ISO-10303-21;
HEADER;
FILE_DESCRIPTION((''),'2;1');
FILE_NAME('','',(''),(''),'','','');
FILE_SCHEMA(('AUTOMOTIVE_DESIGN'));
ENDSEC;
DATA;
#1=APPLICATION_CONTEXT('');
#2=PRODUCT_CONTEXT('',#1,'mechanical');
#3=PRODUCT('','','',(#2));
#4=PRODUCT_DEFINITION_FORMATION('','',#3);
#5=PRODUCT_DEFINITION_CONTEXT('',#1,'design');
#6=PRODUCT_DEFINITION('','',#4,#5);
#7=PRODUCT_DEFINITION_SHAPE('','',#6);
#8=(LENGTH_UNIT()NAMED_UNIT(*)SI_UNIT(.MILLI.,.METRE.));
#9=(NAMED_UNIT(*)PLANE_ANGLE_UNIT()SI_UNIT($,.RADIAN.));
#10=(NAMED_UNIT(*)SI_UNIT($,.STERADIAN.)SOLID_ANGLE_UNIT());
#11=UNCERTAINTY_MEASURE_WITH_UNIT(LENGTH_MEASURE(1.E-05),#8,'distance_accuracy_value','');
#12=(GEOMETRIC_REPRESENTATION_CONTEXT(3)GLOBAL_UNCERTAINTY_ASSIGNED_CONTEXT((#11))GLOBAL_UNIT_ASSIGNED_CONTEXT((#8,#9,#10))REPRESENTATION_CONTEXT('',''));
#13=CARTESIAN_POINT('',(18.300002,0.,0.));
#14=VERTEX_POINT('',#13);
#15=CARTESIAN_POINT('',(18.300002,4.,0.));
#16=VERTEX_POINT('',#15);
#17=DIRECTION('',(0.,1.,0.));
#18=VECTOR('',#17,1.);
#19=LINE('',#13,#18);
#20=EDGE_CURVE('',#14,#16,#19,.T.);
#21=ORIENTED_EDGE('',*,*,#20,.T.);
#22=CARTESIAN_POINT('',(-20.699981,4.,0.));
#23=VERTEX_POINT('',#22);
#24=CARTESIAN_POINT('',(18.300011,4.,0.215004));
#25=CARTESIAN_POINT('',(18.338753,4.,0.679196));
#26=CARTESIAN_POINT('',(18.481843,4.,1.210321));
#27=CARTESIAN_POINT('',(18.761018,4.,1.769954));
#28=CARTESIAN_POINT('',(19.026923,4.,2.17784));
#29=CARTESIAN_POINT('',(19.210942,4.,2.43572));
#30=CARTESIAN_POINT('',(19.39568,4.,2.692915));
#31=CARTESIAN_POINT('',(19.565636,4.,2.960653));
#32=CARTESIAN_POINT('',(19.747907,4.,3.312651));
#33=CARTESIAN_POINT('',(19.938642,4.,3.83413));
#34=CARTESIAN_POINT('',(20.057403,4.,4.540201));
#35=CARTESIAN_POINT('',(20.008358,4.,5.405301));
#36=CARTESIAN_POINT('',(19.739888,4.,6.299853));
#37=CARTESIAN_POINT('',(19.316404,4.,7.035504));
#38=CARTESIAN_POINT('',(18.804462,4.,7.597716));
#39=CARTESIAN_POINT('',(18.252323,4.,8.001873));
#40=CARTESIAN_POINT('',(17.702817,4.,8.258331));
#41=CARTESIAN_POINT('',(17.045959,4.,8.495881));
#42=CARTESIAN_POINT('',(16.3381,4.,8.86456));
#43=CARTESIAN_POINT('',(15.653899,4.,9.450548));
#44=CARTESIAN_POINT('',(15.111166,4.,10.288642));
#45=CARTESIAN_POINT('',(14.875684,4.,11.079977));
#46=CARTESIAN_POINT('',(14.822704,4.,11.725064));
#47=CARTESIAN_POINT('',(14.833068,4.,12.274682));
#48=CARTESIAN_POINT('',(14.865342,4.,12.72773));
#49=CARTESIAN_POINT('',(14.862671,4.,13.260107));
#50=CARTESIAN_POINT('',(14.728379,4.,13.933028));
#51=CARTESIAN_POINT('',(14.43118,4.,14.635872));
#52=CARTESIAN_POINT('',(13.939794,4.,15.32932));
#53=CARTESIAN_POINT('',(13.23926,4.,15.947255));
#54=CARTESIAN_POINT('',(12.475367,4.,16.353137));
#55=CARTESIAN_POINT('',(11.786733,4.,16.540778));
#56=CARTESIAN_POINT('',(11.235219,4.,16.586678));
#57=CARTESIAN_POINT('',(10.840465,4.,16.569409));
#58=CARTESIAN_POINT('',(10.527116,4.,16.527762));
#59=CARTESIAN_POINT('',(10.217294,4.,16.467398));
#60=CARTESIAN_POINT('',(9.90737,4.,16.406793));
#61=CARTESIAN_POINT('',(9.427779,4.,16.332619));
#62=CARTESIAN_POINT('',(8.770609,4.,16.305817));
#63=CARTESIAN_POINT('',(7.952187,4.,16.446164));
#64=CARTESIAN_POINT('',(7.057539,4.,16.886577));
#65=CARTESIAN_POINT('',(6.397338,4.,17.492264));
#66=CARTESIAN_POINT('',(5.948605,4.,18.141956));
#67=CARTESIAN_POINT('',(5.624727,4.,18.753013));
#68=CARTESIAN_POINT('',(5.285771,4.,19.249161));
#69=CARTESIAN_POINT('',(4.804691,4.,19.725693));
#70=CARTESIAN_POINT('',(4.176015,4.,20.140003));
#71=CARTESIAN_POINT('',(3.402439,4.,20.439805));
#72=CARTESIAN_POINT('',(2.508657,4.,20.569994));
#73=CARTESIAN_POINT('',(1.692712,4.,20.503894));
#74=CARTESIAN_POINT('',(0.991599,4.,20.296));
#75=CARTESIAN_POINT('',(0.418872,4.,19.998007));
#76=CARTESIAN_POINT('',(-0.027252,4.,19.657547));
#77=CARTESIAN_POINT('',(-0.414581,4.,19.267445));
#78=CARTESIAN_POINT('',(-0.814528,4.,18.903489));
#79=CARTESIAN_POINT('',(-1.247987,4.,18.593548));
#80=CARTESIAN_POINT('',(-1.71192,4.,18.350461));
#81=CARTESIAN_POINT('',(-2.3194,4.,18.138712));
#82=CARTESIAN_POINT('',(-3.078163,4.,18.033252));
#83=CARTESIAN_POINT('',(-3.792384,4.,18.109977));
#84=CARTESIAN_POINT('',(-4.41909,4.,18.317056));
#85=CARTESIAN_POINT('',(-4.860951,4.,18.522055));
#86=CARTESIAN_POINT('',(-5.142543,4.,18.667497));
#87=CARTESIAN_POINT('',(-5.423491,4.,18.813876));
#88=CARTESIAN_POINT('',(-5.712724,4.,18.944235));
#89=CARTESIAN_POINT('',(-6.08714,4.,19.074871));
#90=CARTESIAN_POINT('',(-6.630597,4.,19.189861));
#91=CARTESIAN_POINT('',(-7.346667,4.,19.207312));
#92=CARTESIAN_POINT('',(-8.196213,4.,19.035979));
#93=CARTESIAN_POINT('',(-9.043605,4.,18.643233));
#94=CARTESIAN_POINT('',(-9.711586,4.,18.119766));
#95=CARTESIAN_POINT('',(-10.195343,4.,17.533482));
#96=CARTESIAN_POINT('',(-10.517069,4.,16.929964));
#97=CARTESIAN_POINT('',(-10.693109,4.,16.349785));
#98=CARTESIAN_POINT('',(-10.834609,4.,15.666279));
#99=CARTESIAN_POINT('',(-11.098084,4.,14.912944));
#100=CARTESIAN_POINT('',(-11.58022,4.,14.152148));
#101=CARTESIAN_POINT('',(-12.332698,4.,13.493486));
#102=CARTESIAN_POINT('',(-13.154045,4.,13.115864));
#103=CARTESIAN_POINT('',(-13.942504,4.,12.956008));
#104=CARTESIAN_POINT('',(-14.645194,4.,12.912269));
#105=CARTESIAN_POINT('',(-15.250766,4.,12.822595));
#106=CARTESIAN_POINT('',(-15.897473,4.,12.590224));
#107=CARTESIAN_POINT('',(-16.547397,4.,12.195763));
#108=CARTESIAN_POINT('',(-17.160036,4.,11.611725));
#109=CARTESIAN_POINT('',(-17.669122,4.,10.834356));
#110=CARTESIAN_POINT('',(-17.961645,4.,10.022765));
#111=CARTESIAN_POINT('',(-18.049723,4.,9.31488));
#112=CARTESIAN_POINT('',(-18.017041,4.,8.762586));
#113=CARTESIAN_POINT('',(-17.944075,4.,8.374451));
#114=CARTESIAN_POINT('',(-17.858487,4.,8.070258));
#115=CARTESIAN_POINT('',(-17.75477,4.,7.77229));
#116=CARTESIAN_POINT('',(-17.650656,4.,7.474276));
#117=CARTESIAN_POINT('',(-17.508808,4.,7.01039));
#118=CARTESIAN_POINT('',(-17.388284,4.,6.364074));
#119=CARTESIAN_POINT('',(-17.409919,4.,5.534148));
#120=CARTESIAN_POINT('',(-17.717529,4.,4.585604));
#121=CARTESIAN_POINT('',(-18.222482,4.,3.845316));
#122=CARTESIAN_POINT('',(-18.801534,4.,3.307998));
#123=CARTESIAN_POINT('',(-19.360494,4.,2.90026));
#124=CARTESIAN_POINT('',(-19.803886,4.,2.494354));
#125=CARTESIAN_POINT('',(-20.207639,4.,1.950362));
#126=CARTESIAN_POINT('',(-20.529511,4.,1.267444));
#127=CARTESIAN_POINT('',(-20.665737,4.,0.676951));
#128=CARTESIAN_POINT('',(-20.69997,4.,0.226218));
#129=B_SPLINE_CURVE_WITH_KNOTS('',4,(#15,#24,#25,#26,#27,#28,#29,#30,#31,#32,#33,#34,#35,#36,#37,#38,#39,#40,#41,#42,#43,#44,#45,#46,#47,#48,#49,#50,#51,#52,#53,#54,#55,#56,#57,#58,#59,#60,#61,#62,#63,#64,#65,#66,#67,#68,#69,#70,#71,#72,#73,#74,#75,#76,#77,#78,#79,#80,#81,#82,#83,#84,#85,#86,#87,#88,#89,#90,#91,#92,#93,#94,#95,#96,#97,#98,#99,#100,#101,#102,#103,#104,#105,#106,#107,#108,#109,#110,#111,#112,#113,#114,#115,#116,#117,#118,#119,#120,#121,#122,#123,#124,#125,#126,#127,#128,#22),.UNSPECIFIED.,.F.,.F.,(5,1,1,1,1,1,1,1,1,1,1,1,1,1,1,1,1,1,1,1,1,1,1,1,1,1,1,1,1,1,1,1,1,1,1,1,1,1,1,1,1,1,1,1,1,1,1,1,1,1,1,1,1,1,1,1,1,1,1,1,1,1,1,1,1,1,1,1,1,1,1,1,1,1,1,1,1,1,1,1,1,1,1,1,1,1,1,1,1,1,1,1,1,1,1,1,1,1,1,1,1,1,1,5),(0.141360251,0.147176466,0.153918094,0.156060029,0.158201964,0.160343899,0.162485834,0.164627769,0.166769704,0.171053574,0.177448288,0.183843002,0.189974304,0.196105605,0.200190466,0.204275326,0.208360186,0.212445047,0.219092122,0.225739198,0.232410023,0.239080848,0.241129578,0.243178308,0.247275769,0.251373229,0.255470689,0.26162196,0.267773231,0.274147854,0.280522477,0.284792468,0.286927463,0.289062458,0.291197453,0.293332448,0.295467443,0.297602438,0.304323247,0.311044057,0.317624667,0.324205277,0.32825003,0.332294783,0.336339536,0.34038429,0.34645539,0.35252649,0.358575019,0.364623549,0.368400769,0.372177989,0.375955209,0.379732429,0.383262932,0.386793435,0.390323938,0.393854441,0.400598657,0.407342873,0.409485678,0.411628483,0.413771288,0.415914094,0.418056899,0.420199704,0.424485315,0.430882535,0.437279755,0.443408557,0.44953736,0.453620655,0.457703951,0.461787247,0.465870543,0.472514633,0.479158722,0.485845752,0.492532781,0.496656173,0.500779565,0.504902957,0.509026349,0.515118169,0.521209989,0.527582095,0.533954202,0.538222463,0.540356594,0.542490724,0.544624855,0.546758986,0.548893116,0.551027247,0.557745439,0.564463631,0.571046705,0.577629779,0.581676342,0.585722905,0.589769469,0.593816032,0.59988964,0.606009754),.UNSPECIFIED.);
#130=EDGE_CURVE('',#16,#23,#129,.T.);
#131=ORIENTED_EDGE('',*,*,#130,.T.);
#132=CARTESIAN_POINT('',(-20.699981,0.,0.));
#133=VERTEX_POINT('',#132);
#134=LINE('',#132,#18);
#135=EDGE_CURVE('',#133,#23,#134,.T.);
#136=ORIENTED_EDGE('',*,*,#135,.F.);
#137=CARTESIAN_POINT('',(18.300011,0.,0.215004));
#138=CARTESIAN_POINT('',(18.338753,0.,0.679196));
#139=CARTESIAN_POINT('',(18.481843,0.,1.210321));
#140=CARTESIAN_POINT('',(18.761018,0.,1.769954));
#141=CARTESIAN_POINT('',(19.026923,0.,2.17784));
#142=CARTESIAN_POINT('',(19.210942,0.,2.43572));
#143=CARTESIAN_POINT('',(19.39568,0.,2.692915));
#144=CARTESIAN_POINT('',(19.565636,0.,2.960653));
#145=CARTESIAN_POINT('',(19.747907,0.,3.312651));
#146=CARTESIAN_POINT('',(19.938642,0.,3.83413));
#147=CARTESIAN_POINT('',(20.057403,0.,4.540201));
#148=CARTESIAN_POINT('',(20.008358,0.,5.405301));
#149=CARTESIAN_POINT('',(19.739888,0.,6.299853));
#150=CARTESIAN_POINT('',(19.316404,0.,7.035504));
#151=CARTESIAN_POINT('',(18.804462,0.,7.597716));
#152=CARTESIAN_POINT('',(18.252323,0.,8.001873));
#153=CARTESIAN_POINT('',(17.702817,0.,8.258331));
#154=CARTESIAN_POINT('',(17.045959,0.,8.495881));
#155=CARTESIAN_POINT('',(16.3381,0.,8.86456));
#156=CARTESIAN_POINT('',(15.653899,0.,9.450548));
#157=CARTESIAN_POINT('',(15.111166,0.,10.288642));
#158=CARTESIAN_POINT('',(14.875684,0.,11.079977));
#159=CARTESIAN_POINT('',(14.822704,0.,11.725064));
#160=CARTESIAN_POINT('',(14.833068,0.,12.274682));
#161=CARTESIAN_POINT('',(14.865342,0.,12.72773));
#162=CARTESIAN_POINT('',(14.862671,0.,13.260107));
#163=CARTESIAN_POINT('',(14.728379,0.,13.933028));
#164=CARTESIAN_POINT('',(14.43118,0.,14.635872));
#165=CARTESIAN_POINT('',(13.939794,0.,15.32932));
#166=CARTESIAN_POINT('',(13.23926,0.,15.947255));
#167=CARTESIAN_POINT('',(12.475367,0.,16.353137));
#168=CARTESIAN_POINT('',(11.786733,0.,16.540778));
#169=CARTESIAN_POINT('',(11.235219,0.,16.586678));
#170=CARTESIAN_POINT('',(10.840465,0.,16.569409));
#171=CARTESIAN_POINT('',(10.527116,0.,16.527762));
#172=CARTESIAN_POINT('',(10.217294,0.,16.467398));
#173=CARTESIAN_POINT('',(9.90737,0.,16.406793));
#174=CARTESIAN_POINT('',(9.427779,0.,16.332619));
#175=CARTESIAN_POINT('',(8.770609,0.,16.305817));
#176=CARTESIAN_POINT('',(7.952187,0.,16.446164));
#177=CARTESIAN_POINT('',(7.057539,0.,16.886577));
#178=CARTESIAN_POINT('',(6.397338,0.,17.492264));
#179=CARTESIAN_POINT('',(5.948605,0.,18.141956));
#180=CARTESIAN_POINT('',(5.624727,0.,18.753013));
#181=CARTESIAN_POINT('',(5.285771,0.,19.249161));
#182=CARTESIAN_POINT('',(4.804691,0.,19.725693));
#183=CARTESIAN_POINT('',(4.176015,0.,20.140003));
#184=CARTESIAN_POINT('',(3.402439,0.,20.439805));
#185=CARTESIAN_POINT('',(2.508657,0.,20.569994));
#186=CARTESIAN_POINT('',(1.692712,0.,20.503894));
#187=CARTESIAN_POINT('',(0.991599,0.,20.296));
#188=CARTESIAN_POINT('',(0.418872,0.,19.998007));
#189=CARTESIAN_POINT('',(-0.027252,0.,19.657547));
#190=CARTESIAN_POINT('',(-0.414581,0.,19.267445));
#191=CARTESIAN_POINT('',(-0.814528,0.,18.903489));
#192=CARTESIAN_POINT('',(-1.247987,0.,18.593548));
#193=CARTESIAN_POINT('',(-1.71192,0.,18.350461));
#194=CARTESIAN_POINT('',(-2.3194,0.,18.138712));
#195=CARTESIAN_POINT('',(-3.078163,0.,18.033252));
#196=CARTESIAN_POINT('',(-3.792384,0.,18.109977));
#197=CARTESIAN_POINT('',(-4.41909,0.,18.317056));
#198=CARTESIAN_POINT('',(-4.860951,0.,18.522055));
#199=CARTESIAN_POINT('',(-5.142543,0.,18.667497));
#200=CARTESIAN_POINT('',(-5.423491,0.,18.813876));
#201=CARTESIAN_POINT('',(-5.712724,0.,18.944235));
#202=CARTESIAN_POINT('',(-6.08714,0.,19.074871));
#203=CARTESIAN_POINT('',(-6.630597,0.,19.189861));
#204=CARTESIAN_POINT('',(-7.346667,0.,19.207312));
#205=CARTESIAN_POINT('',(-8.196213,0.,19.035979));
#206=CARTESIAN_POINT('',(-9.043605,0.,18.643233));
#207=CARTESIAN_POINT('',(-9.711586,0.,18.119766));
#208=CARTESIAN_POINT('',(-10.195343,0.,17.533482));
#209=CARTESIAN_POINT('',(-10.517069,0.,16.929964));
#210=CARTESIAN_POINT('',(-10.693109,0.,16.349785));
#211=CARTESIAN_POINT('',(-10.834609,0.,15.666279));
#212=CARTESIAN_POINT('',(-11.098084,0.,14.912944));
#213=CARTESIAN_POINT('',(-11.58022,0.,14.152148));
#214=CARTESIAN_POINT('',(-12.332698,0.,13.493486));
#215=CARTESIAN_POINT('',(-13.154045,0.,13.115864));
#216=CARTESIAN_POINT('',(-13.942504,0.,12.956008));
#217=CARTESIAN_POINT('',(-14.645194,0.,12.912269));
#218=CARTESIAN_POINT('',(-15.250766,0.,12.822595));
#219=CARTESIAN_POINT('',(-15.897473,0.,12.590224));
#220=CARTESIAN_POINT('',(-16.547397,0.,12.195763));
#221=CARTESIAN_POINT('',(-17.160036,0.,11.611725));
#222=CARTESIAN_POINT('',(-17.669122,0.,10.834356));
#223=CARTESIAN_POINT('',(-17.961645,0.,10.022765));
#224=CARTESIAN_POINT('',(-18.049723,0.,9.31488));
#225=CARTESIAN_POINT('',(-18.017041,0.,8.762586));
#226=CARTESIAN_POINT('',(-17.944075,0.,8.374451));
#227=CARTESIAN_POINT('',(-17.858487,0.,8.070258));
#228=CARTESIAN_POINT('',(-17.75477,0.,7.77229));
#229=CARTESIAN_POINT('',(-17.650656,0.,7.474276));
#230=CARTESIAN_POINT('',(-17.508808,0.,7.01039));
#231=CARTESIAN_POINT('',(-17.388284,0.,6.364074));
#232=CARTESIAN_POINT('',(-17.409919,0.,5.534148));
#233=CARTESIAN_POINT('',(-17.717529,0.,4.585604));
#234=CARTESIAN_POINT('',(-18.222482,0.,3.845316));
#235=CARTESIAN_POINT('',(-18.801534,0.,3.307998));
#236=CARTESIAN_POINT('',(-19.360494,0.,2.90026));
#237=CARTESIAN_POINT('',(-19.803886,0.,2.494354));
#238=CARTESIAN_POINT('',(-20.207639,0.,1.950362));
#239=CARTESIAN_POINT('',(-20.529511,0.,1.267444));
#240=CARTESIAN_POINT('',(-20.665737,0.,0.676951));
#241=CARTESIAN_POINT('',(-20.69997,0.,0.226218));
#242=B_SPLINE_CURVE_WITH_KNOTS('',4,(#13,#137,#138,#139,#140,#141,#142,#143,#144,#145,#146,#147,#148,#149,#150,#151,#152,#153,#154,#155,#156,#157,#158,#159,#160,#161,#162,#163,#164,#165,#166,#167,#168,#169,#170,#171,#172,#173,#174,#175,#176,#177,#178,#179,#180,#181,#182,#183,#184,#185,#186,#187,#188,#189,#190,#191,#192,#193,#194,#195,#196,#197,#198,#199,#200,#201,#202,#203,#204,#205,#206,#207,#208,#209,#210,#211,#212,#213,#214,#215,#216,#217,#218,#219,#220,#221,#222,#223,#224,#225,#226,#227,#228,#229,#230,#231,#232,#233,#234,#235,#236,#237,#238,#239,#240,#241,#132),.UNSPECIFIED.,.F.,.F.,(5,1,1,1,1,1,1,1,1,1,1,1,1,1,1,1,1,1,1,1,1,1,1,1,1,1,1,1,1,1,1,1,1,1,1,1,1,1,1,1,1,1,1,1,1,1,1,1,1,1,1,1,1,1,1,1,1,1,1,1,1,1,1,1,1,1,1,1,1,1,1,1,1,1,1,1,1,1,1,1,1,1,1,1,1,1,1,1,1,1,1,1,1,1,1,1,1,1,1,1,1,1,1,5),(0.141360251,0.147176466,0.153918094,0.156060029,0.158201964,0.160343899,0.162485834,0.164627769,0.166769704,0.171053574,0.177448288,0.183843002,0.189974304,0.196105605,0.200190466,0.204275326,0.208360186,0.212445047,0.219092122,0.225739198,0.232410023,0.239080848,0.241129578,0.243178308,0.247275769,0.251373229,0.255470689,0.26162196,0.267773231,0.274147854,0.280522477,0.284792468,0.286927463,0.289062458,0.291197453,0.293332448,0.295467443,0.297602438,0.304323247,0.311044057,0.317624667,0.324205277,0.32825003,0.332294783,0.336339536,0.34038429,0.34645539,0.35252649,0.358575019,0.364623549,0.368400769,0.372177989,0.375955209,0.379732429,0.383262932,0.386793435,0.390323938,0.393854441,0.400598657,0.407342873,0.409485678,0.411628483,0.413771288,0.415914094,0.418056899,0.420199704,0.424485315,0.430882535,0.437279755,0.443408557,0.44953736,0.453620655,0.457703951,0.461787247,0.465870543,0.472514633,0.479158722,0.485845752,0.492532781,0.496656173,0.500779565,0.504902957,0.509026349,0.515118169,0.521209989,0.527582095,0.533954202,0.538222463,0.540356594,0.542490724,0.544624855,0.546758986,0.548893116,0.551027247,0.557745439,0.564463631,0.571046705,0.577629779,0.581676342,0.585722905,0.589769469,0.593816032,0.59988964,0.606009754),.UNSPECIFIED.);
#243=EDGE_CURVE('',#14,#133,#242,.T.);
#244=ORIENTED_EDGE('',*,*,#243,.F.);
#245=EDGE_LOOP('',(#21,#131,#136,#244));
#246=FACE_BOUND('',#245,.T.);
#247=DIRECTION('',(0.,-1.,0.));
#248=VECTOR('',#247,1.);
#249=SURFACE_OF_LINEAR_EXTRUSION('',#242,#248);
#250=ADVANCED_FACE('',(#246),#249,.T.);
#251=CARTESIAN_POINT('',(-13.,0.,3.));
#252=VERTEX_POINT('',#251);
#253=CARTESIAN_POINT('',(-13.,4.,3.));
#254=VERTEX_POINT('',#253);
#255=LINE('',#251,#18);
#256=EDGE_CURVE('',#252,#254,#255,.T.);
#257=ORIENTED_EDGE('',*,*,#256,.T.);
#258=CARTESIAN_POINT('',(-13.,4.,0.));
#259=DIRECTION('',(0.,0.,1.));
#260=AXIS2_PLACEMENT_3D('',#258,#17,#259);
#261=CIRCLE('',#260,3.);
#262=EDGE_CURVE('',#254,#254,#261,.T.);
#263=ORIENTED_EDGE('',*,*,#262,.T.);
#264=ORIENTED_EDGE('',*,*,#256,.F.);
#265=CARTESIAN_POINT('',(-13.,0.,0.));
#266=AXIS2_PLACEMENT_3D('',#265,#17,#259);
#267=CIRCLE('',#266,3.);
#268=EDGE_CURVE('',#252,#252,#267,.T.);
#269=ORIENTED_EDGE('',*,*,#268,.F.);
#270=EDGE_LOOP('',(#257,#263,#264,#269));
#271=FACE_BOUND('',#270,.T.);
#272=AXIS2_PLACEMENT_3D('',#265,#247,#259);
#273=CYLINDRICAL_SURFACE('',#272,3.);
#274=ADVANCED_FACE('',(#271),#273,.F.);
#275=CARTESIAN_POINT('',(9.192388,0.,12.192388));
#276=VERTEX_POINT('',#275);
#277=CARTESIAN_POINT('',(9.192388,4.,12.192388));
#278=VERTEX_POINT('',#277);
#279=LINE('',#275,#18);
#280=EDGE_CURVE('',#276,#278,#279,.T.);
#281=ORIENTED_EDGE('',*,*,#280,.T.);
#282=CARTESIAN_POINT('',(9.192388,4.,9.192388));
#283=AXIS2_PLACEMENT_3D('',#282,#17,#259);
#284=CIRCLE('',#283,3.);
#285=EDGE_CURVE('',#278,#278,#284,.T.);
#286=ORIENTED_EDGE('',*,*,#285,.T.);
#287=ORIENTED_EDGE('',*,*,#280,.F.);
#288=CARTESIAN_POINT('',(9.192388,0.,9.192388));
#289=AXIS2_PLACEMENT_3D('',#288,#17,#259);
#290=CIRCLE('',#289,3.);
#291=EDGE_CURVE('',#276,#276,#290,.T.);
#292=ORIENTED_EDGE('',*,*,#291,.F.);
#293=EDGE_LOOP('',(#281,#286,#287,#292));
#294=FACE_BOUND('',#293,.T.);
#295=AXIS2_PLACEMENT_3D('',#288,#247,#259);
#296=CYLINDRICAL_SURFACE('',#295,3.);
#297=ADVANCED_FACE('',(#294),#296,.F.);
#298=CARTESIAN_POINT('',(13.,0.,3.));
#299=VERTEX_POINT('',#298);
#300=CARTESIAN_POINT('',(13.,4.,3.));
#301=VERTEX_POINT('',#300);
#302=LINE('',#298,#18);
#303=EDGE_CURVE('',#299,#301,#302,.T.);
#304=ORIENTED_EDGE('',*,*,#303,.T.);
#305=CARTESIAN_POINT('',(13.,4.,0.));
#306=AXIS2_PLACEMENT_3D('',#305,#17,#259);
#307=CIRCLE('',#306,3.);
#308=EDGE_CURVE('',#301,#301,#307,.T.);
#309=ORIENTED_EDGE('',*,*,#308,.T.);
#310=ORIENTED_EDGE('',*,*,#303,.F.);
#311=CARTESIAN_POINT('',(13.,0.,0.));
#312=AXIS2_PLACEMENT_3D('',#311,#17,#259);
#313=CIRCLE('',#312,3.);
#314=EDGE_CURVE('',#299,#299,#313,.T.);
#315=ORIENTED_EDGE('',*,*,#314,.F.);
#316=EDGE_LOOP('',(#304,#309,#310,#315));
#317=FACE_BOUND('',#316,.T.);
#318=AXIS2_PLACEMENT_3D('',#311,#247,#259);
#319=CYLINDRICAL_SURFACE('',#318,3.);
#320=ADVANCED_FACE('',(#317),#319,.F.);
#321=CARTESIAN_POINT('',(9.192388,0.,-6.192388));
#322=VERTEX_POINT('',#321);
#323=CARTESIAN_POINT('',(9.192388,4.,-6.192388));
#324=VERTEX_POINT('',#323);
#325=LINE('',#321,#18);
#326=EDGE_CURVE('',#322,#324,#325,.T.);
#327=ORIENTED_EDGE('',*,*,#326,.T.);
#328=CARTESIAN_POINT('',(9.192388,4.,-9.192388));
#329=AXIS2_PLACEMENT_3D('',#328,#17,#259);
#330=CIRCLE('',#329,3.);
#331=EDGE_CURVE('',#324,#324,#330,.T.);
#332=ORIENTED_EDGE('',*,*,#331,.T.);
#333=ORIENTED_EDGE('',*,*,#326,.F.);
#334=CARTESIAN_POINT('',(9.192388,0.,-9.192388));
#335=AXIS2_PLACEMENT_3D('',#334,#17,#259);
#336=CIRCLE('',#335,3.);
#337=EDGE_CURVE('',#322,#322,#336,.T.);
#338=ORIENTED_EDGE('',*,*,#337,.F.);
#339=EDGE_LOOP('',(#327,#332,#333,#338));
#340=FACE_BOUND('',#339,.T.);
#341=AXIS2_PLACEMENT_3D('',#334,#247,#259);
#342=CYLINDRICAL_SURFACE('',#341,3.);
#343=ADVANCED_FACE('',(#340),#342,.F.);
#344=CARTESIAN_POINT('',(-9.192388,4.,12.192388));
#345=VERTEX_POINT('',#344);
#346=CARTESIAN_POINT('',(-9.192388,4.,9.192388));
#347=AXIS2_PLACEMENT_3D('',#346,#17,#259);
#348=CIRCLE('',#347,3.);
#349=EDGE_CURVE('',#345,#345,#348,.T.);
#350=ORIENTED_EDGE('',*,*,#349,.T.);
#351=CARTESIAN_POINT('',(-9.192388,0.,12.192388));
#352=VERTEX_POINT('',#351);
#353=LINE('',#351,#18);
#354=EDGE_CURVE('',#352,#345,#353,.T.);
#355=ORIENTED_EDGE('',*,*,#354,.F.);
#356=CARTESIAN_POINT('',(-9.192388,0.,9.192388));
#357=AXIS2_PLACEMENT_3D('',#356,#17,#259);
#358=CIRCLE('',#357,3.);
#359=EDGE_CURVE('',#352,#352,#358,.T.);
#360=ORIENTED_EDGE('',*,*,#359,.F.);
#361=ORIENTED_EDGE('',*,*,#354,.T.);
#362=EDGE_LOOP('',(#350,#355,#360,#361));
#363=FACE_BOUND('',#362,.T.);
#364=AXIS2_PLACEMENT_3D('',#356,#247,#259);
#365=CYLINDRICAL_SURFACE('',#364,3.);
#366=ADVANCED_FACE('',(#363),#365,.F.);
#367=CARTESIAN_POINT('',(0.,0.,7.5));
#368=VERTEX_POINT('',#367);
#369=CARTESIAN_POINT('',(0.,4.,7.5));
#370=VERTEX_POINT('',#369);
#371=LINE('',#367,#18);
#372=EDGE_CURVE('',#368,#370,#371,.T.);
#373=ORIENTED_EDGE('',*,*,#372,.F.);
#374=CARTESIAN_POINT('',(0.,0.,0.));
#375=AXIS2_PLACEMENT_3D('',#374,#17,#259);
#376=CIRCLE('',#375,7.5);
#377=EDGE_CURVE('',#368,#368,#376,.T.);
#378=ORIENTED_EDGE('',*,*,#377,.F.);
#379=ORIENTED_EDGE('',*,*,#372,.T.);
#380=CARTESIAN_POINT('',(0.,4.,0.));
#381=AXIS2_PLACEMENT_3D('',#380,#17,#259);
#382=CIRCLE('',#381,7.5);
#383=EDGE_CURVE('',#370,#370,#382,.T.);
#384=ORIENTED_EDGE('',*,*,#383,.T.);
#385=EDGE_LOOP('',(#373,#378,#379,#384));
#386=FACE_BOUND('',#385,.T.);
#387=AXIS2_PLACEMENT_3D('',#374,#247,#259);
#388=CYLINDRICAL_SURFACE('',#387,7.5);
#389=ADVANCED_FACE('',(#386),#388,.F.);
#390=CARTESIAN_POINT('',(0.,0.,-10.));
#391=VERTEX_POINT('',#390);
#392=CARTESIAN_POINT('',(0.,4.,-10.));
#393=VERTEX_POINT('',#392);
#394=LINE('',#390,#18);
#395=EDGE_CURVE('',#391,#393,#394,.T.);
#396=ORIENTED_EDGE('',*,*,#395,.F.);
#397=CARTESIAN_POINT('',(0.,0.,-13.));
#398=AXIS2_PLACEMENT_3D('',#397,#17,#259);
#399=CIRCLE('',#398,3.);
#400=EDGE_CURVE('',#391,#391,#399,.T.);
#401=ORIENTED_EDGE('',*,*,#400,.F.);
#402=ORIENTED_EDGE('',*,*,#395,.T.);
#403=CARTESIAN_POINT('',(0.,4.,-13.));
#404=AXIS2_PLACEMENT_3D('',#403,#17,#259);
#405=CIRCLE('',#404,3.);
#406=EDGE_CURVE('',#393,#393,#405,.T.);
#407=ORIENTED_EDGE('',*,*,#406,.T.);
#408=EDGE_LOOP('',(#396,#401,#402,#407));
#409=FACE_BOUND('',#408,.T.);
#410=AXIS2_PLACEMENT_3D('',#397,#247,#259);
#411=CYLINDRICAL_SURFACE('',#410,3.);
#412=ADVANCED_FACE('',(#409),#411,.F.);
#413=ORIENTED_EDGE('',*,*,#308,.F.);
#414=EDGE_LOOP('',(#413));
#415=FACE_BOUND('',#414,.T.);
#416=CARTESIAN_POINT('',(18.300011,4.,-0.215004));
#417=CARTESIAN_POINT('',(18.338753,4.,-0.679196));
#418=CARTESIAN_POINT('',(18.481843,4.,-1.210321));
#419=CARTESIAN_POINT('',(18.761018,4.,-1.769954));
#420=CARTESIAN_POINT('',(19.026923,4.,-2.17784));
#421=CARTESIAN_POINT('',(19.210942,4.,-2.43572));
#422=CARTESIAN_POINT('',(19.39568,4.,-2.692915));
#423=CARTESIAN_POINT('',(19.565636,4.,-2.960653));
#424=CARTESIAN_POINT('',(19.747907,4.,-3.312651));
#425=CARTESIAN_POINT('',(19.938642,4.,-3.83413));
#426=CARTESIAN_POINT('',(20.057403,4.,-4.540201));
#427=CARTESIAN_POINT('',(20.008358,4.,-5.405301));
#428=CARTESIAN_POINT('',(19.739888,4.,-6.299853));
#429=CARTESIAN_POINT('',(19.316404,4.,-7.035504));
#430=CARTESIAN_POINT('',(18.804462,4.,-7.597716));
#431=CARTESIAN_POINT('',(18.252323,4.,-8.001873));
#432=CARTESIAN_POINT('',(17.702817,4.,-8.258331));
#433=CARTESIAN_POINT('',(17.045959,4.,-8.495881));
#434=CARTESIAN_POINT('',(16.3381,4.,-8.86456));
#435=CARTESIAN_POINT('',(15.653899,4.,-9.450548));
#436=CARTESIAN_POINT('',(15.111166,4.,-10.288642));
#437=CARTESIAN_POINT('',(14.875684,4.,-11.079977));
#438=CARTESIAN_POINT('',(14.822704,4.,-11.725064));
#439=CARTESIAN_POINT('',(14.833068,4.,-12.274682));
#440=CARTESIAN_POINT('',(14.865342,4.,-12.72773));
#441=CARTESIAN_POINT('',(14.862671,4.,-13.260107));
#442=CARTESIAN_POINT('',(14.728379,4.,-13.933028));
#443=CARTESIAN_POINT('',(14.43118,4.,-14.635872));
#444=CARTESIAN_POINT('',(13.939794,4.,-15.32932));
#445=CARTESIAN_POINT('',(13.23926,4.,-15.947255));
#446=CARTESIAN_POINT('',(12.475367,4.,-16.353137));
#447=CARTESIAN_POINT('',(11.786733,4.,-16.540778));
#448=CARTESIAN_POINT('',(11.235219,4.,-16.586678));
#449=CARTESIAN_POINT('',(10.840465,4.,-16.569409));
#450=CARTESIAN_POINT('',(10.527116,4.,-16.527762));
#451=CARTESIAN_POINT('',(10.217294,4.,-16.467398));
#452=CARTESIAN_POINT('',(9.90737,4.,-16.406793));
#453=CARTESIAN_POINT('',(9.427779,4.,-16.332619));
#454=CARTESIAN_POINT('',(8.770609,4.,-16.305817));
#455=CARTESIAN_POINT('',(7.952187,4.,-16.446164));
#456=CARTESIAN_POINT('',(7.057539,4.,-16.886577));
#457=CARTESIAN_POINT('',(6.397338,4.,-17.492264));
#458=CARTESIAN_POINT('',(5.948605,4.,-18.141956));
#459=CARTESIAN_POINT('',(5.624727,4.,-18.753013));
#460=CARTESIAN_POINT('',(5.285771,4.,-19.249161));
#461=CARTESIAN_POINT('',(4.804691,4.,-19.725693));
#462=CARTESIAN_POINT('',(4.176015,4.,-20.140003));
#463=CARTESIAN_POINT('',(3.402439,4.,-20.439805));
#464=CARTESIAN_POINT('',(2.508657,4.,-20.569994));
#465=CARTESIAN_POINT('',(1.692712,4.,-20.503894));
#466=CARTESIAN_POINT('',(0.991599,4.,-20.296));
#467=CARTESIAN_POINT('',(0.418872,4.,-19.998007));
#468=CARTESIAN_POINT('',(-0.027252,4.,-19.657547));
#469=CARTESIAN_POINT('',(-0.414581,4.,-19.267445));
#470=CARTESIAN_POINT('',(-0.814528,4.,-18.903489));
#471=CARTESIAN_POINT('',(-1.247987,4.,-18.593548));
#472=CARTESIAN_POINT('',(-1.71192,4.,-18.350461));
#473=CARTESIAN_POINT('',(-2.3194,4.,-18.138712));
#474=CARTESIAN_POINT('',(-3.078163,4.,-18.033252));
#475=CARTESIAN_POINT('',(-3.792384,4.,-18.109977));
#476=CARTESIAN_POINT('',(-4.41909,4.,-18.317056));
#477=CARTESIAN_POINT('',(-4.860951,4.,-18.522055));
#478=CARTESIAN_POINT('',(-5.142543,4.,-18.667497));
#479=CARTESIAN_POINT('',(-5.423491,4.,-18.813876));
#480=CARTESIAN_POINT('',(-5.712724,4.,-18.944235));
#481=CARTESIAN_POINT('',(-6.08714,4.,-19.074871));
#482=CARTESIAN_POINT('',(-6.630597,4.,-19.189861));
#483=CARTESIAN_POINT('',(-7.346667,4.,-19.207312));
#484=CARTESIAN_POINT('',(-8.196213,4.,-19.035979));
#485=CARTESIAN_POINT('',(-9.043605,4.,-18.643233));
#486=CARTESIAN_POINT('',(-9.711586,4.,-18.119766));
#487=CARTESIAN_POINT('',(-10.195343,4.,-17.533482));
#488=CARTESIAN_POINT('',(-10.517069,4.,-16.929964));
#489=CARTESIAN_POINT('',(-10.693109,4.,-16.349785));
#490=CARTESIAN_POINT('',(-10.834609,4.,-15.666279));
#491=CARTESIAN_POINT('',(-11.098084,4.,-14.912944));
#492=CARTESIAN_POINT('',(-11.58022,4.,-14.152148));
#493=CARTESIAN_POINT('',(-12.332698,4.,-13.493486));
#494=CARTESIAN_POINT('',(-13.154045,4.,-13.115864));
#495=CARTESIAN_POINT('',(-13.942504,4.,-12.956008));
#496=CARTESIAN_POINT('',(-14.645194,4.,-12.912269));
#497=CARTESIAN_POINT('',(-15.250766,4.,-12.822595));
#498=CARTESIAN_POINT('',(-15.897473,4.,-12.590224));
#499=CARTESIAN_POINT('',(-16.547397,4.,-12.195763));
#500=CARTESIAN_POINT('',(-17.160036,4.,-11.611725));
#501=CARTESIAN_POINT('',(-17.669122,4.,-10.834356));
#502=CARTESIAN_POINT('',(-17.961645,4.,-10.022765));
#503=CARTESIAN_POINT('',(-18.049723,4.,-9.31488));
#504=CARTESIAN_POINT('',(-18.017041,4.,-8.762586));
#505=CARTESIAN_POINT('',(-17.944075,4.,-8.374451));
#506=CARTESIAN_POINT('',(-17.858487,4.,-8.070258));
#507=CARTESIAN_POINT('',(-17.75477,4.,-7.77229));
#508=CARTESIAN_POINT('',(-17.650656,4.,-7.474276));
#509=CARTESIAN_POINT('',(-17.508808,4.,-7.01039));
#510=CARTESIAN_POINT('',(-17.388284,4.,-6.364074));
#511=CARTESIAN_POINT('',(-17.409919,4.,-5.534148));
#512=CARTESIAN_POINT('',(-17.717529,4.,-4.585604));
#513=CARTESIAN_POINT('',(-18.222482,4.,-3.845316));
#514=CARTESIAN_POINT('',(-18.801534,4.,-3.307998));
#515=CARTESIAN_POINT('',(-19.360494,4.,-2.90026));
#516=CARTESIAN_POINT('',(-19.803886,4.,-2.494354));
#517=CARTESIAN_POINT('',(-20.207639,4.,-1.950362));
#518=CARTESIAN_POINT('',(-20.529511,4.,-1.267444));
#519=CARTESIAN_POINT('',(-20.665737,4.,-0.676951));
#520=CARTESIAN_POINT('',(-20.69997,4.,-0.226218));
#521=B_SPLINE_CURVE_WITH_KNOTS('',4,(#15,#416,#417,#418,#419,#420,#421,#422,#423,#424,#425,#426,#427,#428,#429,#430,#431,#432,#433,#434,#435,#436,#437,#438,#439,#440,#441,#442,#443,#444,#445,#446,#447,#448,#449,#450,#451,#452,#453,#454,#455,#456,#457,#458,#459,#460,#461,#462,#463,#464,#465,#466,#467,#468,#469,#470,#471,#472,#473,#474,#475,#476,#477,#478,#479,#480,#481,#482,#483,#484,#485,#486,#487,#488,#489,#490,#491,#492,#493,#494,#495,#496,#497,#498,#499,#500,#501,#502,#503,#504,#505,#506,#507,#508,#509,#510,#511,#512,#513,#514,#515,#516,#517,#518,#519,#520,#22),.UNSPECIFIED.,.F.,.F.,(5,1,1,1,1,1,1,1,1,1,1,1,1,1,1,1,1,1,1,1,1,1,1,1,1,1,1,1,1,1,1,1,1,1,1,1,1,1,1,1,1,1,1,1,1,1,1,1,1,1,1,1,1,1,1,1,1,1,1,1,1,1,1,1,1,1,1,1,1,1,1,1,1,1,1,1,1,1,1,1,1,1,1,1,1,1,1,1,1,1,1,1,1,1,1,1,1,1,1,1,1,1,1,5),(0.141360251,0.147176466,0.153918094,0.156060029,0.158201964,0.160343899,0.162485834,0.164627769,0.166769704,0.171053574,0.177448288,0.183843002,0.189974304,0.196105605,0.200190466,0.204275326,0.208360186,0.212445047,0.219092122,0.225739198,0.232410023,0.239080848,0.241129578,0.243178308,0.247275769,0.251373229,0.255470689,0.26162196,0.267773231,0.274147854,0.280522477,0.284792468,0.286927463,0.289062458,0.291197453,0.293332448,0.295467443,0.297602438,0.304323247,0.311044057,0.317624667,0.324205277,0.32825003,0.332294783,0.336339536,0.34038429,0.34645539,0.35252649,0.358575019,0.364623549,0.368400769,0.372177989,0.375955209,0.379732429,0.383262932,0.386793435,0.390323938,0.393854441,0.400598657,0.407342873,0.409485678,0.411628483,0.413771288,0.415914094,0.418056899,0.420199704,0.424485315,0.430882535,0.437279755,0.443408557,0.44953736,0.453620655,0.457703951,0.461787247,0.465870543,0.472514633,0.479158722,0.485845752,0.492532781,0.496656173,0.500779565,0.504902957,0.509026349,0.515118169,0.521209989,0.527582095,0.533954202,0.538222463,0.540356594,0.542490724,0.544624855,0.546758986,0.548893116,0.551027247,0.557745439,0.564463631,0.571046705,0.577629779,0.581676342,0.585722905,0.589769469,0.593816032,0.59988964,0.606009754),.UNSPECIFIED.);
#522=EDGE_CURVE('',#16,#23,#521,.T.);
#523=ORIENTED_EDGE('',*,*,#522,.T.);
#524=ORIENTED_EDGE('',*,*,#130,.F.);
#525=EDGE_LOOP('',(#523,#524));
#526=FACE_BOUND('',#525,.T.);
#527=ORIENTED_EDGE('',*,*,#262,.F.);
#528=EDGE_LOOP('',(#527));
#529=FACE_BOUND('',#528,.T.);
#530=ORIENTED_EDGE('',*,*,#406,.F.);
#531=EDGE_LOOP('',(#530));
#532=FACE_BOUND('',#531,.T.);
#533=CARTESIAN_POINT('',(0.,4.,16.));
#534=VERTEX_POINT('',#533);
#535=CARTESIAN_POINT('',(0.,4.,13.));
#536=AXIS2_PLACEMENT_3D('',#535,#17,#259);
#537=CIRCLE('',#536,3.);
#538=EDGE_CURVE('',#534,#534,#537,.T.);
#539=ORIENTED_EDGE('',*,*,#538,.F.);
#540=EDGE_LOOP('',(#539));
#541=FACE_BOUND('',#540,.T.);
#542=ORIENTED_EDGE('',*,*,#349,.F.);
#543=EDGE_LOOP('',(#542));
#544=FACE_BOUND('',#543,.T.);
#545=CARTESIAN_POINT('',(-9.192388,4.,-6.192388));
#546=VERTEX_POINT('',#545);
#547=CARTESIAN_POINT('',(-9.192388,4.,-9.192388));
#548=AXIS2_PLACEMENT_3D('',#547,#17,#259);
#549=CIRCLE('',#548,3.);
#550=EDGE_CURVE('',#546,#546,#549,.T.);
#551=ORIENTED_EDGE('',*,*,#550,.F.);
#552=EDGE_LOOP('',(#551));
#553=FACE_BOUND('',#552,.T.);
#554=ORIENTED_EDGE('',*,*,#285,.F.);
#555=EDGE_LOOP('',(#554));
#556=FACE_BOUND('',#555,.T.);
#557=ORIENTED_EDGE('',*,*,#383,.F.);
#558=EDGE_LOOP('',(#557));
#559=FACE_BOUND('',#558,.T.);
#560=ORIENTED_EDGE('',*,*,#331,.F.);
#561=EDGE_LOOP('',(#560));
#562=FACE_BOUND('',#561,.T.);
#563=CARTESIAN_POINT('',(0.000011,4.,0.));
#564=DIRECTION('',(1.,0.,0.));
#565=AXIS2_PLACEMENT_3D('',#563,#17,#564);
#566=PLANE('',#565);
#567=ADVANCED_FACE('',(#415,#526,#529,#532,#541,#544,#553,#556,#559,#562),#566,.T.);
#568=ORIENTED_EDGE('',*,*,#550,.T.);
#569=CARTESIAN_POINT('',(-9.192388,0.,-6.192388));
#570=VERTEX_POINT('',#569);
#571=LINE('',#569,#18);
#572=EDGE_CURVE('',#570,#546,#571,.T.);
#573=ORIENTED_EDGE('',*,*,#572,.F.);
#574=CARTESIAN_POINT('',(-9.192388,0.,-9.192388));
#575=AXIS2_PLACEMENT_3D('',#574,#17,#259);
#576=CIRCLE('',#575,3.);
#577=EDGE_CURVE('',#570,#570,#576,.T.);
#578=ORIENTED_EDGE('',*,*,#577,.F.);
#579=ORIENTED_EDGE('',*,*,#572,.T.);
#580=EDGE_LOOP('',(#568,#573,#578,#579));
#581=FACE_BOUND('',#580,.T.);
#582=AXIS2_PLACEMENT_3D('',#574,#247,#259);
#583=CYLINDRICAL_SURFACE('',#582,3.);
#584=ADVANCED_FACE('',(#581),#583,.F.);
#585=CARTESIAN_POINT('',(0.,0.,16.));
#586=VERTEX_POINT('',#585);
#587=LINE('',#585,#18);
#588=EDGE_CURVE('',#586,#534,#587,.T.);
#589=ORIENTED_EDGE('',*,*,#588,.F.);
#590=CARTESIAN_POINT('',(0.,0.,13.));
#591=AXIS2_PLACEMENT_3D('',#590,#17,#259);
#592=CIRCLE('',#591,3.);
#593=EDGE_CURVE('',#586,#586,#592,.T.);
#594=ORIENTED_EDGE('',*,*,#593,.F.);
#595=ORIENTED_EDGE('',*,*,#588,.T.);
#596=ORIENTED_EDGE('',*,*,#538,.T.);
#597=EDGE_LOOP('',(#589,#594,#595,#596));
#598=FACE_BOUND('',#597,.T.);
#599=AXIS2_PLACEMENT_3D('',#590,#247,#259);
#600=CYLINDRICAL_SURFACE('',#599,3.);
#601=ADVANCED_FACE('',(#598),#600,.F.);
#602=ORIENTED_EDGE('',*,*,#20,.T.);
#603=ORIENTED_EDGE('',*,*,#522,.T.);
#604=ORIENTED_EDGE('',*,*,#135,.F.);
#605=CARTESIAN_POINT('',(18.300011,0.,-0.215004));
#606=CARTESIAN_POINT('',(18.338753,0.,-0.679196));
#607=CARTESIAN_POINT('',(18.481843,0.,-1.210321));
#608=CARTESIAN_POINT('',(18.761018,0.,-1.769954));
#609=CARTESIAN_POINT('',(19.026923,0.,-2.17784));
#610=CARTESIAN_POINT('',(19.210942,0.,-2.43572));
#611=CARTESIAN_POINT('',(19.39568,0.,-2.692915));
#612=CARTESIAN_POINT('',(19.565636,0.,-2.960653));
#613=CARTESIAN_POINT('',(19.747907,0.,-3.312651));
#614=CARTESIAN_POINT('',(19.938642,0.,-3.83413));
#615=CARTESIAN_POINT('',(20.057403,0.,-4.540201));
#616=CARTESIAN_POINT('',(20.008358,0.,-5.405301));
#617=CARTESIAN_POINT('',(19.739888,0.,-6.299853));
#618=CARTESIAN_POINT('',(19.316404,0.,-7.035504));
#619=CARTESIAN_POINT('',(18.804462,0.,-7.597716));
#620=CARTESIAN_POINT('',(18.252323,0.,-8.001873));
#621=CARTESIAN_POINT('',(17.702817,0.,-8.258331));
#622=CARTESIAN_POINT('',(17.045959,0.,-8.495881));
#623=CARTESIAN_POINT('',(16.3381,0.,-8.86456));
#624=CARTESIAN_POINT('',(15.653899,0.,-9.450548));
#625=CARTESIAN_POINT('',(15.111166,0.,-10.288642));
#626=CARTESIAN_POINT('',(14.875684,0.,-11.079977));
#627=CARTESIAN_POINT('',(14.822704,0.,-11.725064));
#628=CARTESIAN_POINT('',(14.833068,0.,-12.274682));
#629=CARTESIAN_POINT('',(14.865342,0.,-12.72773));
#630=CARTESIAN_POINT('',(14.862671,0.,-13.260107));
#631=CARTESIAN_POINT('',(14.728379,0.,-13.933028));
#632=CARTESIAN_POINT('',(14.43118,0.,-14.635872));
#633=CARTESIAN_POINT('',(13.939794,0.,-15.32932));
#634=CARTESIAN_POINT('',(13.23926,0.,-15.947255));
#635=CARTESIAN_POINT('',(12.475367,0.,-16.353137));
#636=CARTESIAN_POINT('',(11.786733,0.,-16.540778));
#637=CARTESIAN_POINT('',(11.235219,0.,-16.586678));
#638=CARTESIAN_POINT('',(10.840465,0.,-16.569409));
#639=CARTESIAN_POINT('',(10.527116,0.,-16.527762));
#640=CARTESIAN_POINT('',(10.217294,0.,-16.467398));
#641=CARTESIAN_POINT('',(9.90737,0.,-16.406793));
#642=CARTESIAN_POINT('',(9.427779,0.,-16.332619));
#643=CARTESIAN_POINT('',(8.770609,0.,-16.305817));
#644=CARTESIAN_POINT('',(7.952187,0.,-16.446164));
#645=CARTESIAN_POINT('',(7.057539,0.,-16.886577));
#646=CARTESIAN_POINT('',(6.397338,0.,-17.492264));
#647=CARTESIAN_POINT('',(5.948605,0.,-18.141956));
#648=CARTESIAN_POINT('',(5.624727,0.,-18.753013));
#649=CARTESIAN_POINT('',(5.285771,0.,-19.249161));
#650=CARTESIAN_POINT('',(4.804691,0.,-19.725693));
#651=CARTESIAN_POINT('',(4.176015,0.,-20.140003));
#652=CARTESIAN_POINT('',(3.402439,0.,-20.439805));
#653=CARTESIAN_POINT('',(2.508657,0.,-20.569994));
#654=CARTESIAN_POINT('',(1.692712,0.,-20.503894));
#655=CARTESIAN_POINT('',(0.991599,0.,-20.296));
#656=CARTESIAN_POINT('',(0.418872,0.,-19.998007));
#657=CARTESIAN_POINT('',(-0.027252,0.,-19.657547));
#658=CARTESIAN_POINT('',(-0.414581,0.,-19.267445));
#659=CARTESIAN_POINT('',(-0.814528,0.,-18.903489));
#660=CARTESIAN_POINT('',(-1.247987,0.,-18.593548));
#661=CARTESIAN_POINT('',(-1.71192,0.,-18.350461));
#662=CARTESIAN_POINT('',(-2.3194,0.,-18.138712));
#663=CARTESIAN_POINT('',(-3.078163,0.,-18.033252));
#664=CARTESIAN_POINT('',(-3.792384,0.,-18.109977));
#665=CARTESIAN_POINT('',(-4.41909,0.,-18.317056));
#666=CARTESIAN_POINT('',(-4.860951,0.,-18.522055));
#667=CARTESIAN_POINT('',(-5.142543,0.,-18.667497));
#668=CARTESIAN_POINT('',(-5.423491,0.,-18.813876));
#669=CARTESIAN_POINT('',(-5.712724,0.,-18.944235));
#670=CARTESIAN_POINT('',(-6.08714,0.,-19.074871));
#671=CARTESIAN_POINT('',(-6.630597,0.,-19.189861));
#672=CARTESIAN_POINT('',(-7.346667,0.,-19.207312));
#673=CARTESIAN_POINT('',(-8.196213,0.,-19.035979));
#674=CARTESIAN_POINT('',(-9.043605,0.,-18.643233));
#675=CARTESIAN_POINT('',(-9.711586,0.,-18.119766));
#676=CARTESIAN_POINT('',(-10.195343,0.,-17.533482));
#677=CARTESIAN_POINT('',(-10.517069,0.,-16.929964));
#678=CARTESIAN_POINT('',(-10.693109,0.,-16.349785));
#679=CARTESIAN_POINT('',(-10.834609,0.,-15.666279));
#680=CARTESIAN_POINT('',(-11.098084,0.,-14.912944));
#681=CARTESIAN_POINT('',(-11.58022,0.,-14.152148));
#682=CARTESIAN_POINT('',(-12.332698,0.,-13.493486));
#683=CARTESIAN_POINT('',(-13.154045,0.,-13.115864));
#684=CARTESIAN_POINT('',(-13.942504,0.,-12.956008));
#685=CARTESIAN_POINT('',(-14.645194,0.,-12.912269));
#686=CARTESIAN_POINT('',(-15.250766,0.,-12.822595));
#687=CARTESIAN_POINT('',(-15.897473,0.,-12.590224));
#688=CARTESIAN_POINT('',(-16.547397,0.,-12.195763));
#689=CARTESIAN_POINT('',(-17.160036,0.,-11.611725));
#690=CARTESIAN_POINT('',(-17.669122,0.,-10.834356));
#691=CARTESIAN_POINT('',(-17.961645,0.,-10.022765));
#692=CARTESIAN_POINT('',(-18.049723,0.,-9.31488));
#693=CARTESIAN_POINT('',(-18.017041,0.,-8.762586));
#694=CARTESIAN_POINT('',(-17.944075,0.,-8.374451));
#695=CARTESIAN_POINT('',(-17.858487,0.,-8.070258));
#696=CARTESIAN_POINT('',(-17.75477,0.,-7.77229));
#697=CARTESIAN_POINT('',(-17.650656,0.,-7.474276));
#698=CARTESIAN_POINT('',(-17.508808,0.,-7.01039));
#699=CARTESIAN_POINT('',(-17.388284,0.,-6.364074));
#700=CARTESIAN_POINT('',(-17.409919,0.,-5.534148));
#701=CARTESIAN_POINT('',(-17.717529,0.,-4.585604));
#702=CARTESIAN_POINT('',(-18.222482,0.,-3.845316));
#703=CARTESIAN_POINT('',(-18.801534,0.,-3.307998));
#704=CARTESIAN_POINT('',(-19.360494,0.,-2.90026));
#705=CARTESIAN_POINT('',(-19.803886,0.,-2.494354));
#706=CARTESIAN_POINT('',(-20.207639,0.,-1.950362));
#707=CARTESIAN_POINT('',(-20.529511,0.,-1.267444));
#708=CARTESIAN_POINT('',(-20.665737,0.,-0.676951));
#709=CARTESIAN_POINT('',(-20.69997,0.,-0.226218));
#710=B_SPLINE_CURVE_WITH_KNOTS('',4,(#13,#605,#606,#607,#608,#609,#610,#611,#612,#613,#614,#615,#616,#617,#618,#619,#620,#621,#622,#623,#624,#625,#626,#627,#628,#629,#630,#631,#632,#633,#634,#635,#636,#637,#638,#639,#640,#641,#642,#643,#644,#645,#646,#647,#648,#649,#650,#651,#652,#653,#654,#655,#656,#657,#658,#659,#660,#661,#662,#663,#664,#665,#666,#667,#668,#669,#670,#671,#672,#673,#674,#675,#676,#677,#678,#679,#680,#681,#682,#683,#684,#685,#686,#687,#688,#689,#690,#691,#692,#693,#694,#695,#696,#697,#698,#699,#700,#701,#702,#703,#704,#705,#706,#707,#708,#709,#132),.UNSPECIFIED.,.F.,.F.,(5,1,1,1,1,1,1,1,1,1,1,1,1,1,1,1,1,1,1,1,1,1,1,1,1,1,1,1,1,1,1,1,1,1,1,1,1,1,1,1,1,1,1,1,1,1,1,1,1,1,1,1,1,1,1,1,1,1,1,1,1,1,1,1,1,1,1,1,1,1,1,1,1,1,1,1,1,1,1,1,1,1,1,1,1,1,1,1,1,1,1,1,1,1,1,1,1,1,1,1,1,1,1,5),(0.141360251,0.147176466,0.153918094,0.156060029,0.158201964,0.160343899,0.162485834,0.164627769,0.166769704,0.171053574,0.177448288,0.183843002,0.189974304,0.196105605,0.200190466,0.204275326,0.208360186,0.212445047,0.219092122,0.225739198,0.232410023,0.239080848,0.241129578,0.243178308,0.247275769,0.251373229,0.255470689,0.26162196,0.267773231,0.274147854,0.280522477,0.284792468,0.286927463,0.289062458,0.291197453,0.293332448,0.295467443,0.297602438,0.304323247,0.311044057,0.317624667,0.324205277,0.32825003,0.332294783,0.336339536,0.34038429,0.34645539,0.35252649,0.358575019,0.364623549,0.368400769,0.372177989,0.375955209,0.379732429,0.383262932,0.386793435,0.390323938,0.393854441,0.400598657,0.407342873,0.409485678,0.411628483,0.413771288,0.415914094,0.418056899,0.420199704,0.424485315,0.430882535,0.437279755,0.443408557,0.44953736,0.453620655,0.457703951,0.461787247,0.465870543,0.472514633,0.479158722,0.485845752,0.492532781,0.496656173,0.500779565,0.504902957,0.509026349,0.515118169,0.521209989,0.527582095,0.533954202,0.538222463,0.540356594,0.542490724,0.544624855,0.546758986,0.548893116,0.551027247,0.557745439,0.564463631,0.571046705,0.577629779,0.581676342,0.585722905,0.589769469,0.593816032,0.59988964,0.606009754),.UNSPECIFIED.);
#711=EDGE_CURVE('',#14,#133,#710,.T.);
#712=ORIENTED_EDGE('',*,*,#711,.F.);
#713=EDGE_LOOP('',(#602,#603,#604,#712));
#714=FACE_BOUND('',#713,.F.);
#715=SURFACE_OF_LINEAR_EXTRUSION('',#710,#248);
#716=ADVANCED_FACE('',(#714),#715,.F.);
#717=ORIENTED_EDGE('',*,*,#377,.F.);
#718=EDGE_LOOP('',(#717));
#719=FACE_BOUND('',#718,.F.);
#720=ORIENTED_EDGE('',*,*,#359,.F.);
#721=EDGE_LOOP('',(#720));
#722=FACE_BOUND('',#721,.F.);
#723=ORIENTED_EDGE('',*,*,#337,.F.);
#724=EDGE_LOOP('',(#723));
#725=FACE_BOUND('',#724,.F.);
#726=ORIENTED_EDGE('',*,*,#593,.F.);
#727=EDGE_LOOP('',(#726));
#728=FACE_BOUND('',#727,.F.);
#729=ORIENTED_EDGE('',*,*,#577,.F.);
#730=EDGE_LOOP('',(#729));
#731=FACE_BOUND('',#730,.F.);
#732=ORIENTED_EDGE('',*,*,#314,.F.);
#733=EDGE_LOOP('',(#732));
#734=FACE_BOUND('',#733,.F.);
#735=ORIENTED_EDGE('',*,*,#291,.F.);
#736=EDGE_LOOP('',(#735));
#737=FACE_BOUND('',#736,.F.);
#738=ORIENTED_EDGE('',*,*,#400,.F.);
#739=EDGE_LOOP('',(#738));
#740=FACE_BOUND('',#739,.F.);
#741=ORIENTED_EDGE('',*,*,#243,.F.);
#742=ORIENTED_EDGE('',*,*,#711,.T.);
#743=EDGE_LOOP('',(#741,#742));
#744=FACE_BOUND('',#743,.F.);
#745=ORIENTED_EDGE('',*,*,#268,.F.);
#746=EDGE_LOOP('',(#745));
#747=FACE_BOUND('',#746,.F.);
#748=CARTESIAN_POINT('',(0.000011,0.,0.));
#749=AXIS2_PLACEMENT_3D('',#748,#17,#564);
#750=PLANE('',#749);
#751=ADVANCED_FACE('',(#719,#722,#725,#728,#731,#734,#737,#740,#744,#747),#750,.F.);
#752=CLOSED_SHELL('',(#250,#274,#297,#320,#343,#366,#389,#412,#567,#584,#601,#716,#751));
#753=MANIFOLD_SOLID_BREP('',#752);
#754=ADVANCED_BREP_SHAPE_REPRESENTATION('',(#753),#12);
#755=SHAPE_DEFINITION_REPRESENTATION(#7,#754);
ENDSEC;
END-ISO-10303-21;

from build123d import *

# Parameters (mm, degrees)
SKETCH5_R           = 7.5
SKETCH5_R_2         = 3
BOSS_EXTRUDE1_DEPTH = 4


with BuildPart() as part:
    # Sketch5 → Boss-Extrude1 (new body)
    with BuildSketch(Plane(origin=(0, 0, 0), x_dir=(1, 0, 0), z_dir=(0, 1, 0))):
        with BuildLine():
            add(Edge.make_bspline(
                [(18.300001887, 0), (18.300010705, 0.215003642), (18.338753267, 0.679195711), (18.481842575, 1.210321363), (18.761018022, 1.769953886), (19.026922674, 2.177839709), (19.210941823, 2.435719572), (19.395680187, 2.692915456), (19.565636036, 2.960653153), (19.747906504, 3.312651466), (19.93864247, 3.834129911), (20.057403353, 4.540200664), (20.008357851, 5.405300521), (19.73988768, 6.299853158), (19.316404426, 7.035503992), (18.804461721, 7.597715814), (18.252322537, 8.001873087), (17.702817336, 8.258330995), (17.045959095, 8.495881339), (16.33809985, 8.864560366), (15.653899025, 9.450547644), (15.111166239, 10.288642285), (14.875683836, 11.0799767), (14.822703851, 11.725063966), (14.833067746, 12.274681518), (14.865342292, 12.727729927), (14.862671279, 13.260106684), (14.72837929, 13.933027823), (14.431180013, 14.635872275), (13.939794383, 15.329319559), (13.239260177, 15.947255395), (12.47536717, 16.35313672), (11.786732938, 16.540778236), (11.235218742, 16.586678139), (10.840465401, 16.56940856), (10.527116328, 16.527762316), (10.217294205, 16.467397556), (9.907369576, 16.40679263), (9.427779331, 16.332618687), (8.77060888, 16.305817429), (7.952186843, 16.4461635), (7.05753878, 16.886576705), (6.397338254, 17.492264381), (5.948604744, 18.14195596), (5.624727499, 18.753013498), (5.285770723, 19.249160517), (4.804691328, 19.725693077), (4.176014993, 20.140002558), (3.402438751, 20.439804509), (2.508657291, 20.56999395), (1.692711777, 20.503894327), (0.991598744, 20.296000008), (0.418872155, 19.998006776), (-0.02725181, 19.65754733), (-0.414581276, 19.267445025), (-0.814528019, 18.90348851), (-1.247986951, 18.593547535), (-1.711920278, 18.350461041), (-2.319399601, 18.138711547), (-3.078163454, 18.033252029), (-3.792383587, 18.109977363), (-4.419089964, 18.317056401), (-4.860951124, 18.522055264), (-5.142543266, 18.667497448), (-5.423490802, 18.813876291), (-5.712723674, 18.944234753), (-6.087139526, 19.074870645), (-6.630597424, 19.189860926), (-7.346667059, 19.20731203), (-8.196213037, 19.035978551), (-9.043604624, 18.643233497), (-9.711585586, 18.119766073), (-10.195342802, 17.53348167), (-10.517068924, 16.929963942), (-10.693108972, 16.349784917), (-10.834609167, 15.666278533), (-11.098084342, 14.912944072), (-11.580219609, 14.152147896), (-12.332698376, 13.493485596), (-13.154045362, 13.115864382), (-13.942503997, 12.956008438), (-14.645194298, 12.912269275), (-15.250766145, 12.822594904), (-15.897472911, 12.590223912), (-16.54739671, 12.195763284), (-17.160036154, 11.61172513), (-17.669121957, 10.834355582), (-17.961644901, 10.022765221), (-18.049722961, 9.314879519), (-18.017041175, 8.762586144), (-17.944075374, 8.374451054), (-17.858487142, 8.070258258), (-17.754769799, 7.772289566), (-17.650656333, 7.474276115), (-17.50880783, 7.010389693), (-17.388284102, 6.364073981), (-17.409918688, 5.53414754), (-17.717528668, 4.585603708), (-18.222482128, 3.845315705), (-18.801533842, 3.307998155), (-19.360494017, 2.900260179), (-19.803886321, 2.494354237), (-20.207639479, 1.950362105), (-20.529511005, 1.267444047), (-20.665736565, 0.676951062), (-20.699969648, 0.226217639), (-20.699980788, 0)],
                knots=[0.141360251, 0.141360251, 0.141360251, 0.141360251, 0.141360251, 0.147176466, 0.153918094, 0.156060029, 0.158201964, 0.160343899, 0.162485834, 0.164627769, 0.166769704, 0.171053574, 0.177448288, 0.183843002, 0.189974304, 0.196105605, 0.200190466, 0.204275326, 0.208360186, 0.212445047, 0.219092122, 0.225739198, 0.232410023, 0.239080848, 0.241129578, 0.243178308, 0.247275769, 0.251373229, 0.255470689, 0.26162196, 0.267773231, 0.274147854, 0.280522477, 0.284792468, 0.286927463, 0.289062458, 0.291197453, 0.293332448, 0.295467443, 0.297602438, 0.304323247, 0.311044057, 0.317624667, 0.324205277, 0.32825003, 0.332294783, 0.336339536, 0.34038429, 0.34645539, 0.35252649, 0.358575019, 0.364623549, 0.368400769, 0.372177989, 0.375955209, 0.379732429, 0.383262932, 0.386793435, 0.390323938, 0.393854441, 0.400598657, 0.407342873, 0.409485678, 0.411628483, 0.413771288, 0.415914094, 0.418056899, 0.420199704, 0.424485315, 0.430882535, 0.437279755, 0.443408557, 0.44953736, 0.453620655, 0.457703951, 0.461787247, 0.465870543, 0.472514633, 0.479158722, 0.485845752, 0.492532781, 0.496656173, 0.500779565, 0.504902957, 0.509026349, 0.515118169, 0.521209989, 0.527582095, 0.533954202, 0.538222463, 0.540356594, 0.542490724, 0.544624855, 0.546758986, 0.548893116, 0.551027247, 0.557745439, 0.564463631, 0.571046705, 0.577629779, 0.581676342, 0.585722905, 0.589769469, 0.593816032, 0.59988964, 0.606009754, 0.606009754, 0.606009754, 0.606009754, 0.606009754], degree=4))
            add(Edge.make_bspline(
                [(18.300001887, 0), (18.300010705, -0.215003642), (18.338753267, -0.679195711), (18.481842575, -1.210321363), (18.761018022, -1.769953886), (19.026922674, -2.177839709), (19.210941823, -2.435719572), (19.395680187, -2.692915456), (19.565636036, -2.960653153), (19.747906504, -3.312651466), (19.93864247, -3.834129911), (20.057403353, -4.540200664), (20.008357851, -5.405300521), (19.73988768, -6.299853158), (19.316404426, -7.035503991), (18.804461721, -7.597715814), (18.252322537, -8.001873087), (17.702817336, -8.258330995), (17.045959095, -8.495881339), (16.33809985, -8.864560366), (15.653899025, -9.450547644), (15.111166239, -10.288642285), (14.875683836, -11.0799767), (14.822703851, -11.725063966), (14.833067746, -12.274681518), (14.865342292, -12.727729927), (14.862671279, -13.260106684), (14.72837929, -13.933027823), (14.431180013, -14.635872275), (13.939794383, -15.329319559), (13.239260177, -15.947255395), (12.47536717, -16.35313672), (11.786732938, -16.540778236), (11.235218742, -16.586678139), (10.840465401, -16.56940856), (10.527116328, -16.527762316), (10.217294205, -16.467397556), (9.907369576, -16.40679263), (9.427779331, -16.332618687), (8.77060888, -16.305817429), (7.952186843, -16.4461635), (7.05753878, -16.886576705), (6.397338254, -17.492264381), (5.948604744, -18.14195596), (5.624727499, -18.753013498), (5.285770723, -19.249160517), (4.804691328, -19.725693077), (4.176014993, -20.140002558), (3.402438751, -20.439804509), (2.508657291, -20.56999395), (1.692711777, -20.503894327), (0.991598744, -20.296000008), (0.418872155, -19.998006776), (-0.02725181, -19.65754733), (-0.414581276, -19.267445025), (-0.814528019, -18.90348851), (-1.247986951, -18.593547535), (-1.711920278, -18.350461041), (-2.319399601, -18.138711547), (-3.078163454, -18.033252029), (-3.792383587, -18.109977363), (-4.419089964, -18.317056401), (-4.860951124, -18.522055264), (-5.142543266, -18.667497448), (-5.423490802, -18.813876291), (-5.712723674, -18.944234753), (-6.087139526, -19.074870645), (-6.630597424, -19.189860926), (-7.346667059, -19.20731203), (-8.196213037, -19.035978551), (-9.043604624, -18.643233497), (-9.711585586, -18.119766073), (-10.195342802, -17.53348167), (-10.517068924, -16.929963942), (-10.693108972, -16.349784917), (-10.834609167, -15.666278533), (-11.098084342, -14.912944072), (-11.580219609, -14.152147896), (-12.332698376, -13.493485596), (-13.154045362, -13.115864382), (-13.942503997, -12.956008438), (-14.645194298, -12.912269275), (-15.250766145, -12.822594904), (-15.897472911, -12.590223912), (-16.54739671, -12.195763284), (-17.160036154, -11.61172513), (-17.669121957, -10.834355582), (-17.961644901, -10.022765221), (-18.049722961, -9.314879519), (-18.017041175, -8.762586144), (-17.944075374, -8.374451054), (-17.858487142, -8.070258258), (-17.754769799, -7.772289566), (-17.650656333, -7.474276115), (-17.50880783, -7.010389693), (-17.388284102, -6.364073981), (-17.409918688, -5.53414754), (-17.717528668, -4.585603708), (-18.222482128, -3.845315705), (-18.801533842, -3.307998155), (-19.360494017, -2.900260179), (-19.803886321, -2.494354237), (-20.207639479, -1.950362105), (-20.529511005, -1.267444047), (-20.665736565, -0.676951062), (-20.699969648, -0.226217639), (-20.699980788, 0)],
                knots=[0.141360251, 0.141360251, 0.141360251, 0.141360251, 0.141360251, 0.147176466, 0.153918094, 0.156060029, 0.158201964, 0.160343899, 0.162485834, 0.164627769, 0.166769704, 0.171053574, 0.177448288, 0.183843002, 0.189974304, 0.196105605, 0.200190466, 0.204275326, 0.208360186, 0.212445047, 0.219092122, 0.225739198, 0.232410023, 0.239080848, 0.241129578, 0.243178308, 0.247275769, 0.251373229, 0.255470689, 0.26162196, 0.267773231, 0.274147854, 0.280522477, 0.284792468, 0.286927463, 0.289062458, 0.291197453, 0.293332448, 0.295467443, 0.297602438, 0.304323247, 0.311044057, 0.317624667, 0.324205277, 0.32825003, 0.332294783, 0.336339536, 0.34038429, 0.34645539, 0.35252649, 0.358575019, 0.364623549, 0.368400769, 0.372177989, 0.375955209, 0.379732429, 0.383262932, 0.386793435, 0.390323938, 0.393854441, 0.400598657, 0.407342873, 0.409485678, 0.411628483, 0.413771288, 0.415914094, 0.418056899, 0.420199704, 0.424485315, 0.430882535, 0.437279755, 0.443408557, 0.44953736, 0.453620655, 0.457703951, 0.461787247, 0.465870543, 0.472514633, 0.479158722, 0.485845752, 0.492532781, 0.496656173, 0.500779565, 0.504902957, 0.509026349, 0.515118169, 0.521209989, 0.527582095, 0.533954202, 0.538222463, 0.540356594, 0.542490724, 0.544624855, 0.546758986, 0.548893116, 0.551027247, 0.557745439, 0.564463631, 0.571046705, 0.577629779, 0.581676342, 0.585722905, 0.589769469, 0.593816032, 0.59988964, 0.606009754, 0.606009754, 0.606009754, 0.606009754, 0.606009754], degree=4))
        make_face()
        with Locations(Location((0, 0, 0), (0, 0, 270))):
            Circle(SKETCH5_R, mode=Mode.SUBTRACT)
        with Locations(Location((-9.192388155, -9.192388155, 0), (0, 0, 270))):
            Circle(SKETCH5_R_2, mode=Mode.SUBTRACT)
        with Locations(Location((0, -13, 0), (0, 0, 270))):
            Circle(SKETCH5_R_2, mode=Mode.SUBTRACT)
        with Locations(Location((9.192388155, -9.192388155, 0), (0, 0, 270))):
            Circle(SKETCH5_R_2, mode=Mode.SUBTRACT)
        with Locations(Location((13, 0, 0), (0, 0, 270))):
            Circle(SKETCH5_R_2, mode=Mode.SUBTRACT)
        with Locations(Location((9.192388155, 9.192388155, 0), (0, 0, 270))):
            Circle(SKETCH5_R_2, mode=Mode.SUBTRACT)
        with Locations(Location((0, 13, 0), (0, 0, 270))):
            Circle(SKETCH5_R_2, mode=Mode.SUBTRACT)
        with Locations(Location((-9.192388155, 9.192388155, 0), (0, 0, 270))):
            Circle(SKETCH5_R_2, mode=Mode.SUBTRACT)
        with Locations(Location((-13, 0, 0), (0, 0, 270))):
            Circle(SKETCH5_R_2, mode=Mode.SUBTRACT)
    extrude(amount=BOSS_EXTRUDE1_DEPTH)


solid = part.part
